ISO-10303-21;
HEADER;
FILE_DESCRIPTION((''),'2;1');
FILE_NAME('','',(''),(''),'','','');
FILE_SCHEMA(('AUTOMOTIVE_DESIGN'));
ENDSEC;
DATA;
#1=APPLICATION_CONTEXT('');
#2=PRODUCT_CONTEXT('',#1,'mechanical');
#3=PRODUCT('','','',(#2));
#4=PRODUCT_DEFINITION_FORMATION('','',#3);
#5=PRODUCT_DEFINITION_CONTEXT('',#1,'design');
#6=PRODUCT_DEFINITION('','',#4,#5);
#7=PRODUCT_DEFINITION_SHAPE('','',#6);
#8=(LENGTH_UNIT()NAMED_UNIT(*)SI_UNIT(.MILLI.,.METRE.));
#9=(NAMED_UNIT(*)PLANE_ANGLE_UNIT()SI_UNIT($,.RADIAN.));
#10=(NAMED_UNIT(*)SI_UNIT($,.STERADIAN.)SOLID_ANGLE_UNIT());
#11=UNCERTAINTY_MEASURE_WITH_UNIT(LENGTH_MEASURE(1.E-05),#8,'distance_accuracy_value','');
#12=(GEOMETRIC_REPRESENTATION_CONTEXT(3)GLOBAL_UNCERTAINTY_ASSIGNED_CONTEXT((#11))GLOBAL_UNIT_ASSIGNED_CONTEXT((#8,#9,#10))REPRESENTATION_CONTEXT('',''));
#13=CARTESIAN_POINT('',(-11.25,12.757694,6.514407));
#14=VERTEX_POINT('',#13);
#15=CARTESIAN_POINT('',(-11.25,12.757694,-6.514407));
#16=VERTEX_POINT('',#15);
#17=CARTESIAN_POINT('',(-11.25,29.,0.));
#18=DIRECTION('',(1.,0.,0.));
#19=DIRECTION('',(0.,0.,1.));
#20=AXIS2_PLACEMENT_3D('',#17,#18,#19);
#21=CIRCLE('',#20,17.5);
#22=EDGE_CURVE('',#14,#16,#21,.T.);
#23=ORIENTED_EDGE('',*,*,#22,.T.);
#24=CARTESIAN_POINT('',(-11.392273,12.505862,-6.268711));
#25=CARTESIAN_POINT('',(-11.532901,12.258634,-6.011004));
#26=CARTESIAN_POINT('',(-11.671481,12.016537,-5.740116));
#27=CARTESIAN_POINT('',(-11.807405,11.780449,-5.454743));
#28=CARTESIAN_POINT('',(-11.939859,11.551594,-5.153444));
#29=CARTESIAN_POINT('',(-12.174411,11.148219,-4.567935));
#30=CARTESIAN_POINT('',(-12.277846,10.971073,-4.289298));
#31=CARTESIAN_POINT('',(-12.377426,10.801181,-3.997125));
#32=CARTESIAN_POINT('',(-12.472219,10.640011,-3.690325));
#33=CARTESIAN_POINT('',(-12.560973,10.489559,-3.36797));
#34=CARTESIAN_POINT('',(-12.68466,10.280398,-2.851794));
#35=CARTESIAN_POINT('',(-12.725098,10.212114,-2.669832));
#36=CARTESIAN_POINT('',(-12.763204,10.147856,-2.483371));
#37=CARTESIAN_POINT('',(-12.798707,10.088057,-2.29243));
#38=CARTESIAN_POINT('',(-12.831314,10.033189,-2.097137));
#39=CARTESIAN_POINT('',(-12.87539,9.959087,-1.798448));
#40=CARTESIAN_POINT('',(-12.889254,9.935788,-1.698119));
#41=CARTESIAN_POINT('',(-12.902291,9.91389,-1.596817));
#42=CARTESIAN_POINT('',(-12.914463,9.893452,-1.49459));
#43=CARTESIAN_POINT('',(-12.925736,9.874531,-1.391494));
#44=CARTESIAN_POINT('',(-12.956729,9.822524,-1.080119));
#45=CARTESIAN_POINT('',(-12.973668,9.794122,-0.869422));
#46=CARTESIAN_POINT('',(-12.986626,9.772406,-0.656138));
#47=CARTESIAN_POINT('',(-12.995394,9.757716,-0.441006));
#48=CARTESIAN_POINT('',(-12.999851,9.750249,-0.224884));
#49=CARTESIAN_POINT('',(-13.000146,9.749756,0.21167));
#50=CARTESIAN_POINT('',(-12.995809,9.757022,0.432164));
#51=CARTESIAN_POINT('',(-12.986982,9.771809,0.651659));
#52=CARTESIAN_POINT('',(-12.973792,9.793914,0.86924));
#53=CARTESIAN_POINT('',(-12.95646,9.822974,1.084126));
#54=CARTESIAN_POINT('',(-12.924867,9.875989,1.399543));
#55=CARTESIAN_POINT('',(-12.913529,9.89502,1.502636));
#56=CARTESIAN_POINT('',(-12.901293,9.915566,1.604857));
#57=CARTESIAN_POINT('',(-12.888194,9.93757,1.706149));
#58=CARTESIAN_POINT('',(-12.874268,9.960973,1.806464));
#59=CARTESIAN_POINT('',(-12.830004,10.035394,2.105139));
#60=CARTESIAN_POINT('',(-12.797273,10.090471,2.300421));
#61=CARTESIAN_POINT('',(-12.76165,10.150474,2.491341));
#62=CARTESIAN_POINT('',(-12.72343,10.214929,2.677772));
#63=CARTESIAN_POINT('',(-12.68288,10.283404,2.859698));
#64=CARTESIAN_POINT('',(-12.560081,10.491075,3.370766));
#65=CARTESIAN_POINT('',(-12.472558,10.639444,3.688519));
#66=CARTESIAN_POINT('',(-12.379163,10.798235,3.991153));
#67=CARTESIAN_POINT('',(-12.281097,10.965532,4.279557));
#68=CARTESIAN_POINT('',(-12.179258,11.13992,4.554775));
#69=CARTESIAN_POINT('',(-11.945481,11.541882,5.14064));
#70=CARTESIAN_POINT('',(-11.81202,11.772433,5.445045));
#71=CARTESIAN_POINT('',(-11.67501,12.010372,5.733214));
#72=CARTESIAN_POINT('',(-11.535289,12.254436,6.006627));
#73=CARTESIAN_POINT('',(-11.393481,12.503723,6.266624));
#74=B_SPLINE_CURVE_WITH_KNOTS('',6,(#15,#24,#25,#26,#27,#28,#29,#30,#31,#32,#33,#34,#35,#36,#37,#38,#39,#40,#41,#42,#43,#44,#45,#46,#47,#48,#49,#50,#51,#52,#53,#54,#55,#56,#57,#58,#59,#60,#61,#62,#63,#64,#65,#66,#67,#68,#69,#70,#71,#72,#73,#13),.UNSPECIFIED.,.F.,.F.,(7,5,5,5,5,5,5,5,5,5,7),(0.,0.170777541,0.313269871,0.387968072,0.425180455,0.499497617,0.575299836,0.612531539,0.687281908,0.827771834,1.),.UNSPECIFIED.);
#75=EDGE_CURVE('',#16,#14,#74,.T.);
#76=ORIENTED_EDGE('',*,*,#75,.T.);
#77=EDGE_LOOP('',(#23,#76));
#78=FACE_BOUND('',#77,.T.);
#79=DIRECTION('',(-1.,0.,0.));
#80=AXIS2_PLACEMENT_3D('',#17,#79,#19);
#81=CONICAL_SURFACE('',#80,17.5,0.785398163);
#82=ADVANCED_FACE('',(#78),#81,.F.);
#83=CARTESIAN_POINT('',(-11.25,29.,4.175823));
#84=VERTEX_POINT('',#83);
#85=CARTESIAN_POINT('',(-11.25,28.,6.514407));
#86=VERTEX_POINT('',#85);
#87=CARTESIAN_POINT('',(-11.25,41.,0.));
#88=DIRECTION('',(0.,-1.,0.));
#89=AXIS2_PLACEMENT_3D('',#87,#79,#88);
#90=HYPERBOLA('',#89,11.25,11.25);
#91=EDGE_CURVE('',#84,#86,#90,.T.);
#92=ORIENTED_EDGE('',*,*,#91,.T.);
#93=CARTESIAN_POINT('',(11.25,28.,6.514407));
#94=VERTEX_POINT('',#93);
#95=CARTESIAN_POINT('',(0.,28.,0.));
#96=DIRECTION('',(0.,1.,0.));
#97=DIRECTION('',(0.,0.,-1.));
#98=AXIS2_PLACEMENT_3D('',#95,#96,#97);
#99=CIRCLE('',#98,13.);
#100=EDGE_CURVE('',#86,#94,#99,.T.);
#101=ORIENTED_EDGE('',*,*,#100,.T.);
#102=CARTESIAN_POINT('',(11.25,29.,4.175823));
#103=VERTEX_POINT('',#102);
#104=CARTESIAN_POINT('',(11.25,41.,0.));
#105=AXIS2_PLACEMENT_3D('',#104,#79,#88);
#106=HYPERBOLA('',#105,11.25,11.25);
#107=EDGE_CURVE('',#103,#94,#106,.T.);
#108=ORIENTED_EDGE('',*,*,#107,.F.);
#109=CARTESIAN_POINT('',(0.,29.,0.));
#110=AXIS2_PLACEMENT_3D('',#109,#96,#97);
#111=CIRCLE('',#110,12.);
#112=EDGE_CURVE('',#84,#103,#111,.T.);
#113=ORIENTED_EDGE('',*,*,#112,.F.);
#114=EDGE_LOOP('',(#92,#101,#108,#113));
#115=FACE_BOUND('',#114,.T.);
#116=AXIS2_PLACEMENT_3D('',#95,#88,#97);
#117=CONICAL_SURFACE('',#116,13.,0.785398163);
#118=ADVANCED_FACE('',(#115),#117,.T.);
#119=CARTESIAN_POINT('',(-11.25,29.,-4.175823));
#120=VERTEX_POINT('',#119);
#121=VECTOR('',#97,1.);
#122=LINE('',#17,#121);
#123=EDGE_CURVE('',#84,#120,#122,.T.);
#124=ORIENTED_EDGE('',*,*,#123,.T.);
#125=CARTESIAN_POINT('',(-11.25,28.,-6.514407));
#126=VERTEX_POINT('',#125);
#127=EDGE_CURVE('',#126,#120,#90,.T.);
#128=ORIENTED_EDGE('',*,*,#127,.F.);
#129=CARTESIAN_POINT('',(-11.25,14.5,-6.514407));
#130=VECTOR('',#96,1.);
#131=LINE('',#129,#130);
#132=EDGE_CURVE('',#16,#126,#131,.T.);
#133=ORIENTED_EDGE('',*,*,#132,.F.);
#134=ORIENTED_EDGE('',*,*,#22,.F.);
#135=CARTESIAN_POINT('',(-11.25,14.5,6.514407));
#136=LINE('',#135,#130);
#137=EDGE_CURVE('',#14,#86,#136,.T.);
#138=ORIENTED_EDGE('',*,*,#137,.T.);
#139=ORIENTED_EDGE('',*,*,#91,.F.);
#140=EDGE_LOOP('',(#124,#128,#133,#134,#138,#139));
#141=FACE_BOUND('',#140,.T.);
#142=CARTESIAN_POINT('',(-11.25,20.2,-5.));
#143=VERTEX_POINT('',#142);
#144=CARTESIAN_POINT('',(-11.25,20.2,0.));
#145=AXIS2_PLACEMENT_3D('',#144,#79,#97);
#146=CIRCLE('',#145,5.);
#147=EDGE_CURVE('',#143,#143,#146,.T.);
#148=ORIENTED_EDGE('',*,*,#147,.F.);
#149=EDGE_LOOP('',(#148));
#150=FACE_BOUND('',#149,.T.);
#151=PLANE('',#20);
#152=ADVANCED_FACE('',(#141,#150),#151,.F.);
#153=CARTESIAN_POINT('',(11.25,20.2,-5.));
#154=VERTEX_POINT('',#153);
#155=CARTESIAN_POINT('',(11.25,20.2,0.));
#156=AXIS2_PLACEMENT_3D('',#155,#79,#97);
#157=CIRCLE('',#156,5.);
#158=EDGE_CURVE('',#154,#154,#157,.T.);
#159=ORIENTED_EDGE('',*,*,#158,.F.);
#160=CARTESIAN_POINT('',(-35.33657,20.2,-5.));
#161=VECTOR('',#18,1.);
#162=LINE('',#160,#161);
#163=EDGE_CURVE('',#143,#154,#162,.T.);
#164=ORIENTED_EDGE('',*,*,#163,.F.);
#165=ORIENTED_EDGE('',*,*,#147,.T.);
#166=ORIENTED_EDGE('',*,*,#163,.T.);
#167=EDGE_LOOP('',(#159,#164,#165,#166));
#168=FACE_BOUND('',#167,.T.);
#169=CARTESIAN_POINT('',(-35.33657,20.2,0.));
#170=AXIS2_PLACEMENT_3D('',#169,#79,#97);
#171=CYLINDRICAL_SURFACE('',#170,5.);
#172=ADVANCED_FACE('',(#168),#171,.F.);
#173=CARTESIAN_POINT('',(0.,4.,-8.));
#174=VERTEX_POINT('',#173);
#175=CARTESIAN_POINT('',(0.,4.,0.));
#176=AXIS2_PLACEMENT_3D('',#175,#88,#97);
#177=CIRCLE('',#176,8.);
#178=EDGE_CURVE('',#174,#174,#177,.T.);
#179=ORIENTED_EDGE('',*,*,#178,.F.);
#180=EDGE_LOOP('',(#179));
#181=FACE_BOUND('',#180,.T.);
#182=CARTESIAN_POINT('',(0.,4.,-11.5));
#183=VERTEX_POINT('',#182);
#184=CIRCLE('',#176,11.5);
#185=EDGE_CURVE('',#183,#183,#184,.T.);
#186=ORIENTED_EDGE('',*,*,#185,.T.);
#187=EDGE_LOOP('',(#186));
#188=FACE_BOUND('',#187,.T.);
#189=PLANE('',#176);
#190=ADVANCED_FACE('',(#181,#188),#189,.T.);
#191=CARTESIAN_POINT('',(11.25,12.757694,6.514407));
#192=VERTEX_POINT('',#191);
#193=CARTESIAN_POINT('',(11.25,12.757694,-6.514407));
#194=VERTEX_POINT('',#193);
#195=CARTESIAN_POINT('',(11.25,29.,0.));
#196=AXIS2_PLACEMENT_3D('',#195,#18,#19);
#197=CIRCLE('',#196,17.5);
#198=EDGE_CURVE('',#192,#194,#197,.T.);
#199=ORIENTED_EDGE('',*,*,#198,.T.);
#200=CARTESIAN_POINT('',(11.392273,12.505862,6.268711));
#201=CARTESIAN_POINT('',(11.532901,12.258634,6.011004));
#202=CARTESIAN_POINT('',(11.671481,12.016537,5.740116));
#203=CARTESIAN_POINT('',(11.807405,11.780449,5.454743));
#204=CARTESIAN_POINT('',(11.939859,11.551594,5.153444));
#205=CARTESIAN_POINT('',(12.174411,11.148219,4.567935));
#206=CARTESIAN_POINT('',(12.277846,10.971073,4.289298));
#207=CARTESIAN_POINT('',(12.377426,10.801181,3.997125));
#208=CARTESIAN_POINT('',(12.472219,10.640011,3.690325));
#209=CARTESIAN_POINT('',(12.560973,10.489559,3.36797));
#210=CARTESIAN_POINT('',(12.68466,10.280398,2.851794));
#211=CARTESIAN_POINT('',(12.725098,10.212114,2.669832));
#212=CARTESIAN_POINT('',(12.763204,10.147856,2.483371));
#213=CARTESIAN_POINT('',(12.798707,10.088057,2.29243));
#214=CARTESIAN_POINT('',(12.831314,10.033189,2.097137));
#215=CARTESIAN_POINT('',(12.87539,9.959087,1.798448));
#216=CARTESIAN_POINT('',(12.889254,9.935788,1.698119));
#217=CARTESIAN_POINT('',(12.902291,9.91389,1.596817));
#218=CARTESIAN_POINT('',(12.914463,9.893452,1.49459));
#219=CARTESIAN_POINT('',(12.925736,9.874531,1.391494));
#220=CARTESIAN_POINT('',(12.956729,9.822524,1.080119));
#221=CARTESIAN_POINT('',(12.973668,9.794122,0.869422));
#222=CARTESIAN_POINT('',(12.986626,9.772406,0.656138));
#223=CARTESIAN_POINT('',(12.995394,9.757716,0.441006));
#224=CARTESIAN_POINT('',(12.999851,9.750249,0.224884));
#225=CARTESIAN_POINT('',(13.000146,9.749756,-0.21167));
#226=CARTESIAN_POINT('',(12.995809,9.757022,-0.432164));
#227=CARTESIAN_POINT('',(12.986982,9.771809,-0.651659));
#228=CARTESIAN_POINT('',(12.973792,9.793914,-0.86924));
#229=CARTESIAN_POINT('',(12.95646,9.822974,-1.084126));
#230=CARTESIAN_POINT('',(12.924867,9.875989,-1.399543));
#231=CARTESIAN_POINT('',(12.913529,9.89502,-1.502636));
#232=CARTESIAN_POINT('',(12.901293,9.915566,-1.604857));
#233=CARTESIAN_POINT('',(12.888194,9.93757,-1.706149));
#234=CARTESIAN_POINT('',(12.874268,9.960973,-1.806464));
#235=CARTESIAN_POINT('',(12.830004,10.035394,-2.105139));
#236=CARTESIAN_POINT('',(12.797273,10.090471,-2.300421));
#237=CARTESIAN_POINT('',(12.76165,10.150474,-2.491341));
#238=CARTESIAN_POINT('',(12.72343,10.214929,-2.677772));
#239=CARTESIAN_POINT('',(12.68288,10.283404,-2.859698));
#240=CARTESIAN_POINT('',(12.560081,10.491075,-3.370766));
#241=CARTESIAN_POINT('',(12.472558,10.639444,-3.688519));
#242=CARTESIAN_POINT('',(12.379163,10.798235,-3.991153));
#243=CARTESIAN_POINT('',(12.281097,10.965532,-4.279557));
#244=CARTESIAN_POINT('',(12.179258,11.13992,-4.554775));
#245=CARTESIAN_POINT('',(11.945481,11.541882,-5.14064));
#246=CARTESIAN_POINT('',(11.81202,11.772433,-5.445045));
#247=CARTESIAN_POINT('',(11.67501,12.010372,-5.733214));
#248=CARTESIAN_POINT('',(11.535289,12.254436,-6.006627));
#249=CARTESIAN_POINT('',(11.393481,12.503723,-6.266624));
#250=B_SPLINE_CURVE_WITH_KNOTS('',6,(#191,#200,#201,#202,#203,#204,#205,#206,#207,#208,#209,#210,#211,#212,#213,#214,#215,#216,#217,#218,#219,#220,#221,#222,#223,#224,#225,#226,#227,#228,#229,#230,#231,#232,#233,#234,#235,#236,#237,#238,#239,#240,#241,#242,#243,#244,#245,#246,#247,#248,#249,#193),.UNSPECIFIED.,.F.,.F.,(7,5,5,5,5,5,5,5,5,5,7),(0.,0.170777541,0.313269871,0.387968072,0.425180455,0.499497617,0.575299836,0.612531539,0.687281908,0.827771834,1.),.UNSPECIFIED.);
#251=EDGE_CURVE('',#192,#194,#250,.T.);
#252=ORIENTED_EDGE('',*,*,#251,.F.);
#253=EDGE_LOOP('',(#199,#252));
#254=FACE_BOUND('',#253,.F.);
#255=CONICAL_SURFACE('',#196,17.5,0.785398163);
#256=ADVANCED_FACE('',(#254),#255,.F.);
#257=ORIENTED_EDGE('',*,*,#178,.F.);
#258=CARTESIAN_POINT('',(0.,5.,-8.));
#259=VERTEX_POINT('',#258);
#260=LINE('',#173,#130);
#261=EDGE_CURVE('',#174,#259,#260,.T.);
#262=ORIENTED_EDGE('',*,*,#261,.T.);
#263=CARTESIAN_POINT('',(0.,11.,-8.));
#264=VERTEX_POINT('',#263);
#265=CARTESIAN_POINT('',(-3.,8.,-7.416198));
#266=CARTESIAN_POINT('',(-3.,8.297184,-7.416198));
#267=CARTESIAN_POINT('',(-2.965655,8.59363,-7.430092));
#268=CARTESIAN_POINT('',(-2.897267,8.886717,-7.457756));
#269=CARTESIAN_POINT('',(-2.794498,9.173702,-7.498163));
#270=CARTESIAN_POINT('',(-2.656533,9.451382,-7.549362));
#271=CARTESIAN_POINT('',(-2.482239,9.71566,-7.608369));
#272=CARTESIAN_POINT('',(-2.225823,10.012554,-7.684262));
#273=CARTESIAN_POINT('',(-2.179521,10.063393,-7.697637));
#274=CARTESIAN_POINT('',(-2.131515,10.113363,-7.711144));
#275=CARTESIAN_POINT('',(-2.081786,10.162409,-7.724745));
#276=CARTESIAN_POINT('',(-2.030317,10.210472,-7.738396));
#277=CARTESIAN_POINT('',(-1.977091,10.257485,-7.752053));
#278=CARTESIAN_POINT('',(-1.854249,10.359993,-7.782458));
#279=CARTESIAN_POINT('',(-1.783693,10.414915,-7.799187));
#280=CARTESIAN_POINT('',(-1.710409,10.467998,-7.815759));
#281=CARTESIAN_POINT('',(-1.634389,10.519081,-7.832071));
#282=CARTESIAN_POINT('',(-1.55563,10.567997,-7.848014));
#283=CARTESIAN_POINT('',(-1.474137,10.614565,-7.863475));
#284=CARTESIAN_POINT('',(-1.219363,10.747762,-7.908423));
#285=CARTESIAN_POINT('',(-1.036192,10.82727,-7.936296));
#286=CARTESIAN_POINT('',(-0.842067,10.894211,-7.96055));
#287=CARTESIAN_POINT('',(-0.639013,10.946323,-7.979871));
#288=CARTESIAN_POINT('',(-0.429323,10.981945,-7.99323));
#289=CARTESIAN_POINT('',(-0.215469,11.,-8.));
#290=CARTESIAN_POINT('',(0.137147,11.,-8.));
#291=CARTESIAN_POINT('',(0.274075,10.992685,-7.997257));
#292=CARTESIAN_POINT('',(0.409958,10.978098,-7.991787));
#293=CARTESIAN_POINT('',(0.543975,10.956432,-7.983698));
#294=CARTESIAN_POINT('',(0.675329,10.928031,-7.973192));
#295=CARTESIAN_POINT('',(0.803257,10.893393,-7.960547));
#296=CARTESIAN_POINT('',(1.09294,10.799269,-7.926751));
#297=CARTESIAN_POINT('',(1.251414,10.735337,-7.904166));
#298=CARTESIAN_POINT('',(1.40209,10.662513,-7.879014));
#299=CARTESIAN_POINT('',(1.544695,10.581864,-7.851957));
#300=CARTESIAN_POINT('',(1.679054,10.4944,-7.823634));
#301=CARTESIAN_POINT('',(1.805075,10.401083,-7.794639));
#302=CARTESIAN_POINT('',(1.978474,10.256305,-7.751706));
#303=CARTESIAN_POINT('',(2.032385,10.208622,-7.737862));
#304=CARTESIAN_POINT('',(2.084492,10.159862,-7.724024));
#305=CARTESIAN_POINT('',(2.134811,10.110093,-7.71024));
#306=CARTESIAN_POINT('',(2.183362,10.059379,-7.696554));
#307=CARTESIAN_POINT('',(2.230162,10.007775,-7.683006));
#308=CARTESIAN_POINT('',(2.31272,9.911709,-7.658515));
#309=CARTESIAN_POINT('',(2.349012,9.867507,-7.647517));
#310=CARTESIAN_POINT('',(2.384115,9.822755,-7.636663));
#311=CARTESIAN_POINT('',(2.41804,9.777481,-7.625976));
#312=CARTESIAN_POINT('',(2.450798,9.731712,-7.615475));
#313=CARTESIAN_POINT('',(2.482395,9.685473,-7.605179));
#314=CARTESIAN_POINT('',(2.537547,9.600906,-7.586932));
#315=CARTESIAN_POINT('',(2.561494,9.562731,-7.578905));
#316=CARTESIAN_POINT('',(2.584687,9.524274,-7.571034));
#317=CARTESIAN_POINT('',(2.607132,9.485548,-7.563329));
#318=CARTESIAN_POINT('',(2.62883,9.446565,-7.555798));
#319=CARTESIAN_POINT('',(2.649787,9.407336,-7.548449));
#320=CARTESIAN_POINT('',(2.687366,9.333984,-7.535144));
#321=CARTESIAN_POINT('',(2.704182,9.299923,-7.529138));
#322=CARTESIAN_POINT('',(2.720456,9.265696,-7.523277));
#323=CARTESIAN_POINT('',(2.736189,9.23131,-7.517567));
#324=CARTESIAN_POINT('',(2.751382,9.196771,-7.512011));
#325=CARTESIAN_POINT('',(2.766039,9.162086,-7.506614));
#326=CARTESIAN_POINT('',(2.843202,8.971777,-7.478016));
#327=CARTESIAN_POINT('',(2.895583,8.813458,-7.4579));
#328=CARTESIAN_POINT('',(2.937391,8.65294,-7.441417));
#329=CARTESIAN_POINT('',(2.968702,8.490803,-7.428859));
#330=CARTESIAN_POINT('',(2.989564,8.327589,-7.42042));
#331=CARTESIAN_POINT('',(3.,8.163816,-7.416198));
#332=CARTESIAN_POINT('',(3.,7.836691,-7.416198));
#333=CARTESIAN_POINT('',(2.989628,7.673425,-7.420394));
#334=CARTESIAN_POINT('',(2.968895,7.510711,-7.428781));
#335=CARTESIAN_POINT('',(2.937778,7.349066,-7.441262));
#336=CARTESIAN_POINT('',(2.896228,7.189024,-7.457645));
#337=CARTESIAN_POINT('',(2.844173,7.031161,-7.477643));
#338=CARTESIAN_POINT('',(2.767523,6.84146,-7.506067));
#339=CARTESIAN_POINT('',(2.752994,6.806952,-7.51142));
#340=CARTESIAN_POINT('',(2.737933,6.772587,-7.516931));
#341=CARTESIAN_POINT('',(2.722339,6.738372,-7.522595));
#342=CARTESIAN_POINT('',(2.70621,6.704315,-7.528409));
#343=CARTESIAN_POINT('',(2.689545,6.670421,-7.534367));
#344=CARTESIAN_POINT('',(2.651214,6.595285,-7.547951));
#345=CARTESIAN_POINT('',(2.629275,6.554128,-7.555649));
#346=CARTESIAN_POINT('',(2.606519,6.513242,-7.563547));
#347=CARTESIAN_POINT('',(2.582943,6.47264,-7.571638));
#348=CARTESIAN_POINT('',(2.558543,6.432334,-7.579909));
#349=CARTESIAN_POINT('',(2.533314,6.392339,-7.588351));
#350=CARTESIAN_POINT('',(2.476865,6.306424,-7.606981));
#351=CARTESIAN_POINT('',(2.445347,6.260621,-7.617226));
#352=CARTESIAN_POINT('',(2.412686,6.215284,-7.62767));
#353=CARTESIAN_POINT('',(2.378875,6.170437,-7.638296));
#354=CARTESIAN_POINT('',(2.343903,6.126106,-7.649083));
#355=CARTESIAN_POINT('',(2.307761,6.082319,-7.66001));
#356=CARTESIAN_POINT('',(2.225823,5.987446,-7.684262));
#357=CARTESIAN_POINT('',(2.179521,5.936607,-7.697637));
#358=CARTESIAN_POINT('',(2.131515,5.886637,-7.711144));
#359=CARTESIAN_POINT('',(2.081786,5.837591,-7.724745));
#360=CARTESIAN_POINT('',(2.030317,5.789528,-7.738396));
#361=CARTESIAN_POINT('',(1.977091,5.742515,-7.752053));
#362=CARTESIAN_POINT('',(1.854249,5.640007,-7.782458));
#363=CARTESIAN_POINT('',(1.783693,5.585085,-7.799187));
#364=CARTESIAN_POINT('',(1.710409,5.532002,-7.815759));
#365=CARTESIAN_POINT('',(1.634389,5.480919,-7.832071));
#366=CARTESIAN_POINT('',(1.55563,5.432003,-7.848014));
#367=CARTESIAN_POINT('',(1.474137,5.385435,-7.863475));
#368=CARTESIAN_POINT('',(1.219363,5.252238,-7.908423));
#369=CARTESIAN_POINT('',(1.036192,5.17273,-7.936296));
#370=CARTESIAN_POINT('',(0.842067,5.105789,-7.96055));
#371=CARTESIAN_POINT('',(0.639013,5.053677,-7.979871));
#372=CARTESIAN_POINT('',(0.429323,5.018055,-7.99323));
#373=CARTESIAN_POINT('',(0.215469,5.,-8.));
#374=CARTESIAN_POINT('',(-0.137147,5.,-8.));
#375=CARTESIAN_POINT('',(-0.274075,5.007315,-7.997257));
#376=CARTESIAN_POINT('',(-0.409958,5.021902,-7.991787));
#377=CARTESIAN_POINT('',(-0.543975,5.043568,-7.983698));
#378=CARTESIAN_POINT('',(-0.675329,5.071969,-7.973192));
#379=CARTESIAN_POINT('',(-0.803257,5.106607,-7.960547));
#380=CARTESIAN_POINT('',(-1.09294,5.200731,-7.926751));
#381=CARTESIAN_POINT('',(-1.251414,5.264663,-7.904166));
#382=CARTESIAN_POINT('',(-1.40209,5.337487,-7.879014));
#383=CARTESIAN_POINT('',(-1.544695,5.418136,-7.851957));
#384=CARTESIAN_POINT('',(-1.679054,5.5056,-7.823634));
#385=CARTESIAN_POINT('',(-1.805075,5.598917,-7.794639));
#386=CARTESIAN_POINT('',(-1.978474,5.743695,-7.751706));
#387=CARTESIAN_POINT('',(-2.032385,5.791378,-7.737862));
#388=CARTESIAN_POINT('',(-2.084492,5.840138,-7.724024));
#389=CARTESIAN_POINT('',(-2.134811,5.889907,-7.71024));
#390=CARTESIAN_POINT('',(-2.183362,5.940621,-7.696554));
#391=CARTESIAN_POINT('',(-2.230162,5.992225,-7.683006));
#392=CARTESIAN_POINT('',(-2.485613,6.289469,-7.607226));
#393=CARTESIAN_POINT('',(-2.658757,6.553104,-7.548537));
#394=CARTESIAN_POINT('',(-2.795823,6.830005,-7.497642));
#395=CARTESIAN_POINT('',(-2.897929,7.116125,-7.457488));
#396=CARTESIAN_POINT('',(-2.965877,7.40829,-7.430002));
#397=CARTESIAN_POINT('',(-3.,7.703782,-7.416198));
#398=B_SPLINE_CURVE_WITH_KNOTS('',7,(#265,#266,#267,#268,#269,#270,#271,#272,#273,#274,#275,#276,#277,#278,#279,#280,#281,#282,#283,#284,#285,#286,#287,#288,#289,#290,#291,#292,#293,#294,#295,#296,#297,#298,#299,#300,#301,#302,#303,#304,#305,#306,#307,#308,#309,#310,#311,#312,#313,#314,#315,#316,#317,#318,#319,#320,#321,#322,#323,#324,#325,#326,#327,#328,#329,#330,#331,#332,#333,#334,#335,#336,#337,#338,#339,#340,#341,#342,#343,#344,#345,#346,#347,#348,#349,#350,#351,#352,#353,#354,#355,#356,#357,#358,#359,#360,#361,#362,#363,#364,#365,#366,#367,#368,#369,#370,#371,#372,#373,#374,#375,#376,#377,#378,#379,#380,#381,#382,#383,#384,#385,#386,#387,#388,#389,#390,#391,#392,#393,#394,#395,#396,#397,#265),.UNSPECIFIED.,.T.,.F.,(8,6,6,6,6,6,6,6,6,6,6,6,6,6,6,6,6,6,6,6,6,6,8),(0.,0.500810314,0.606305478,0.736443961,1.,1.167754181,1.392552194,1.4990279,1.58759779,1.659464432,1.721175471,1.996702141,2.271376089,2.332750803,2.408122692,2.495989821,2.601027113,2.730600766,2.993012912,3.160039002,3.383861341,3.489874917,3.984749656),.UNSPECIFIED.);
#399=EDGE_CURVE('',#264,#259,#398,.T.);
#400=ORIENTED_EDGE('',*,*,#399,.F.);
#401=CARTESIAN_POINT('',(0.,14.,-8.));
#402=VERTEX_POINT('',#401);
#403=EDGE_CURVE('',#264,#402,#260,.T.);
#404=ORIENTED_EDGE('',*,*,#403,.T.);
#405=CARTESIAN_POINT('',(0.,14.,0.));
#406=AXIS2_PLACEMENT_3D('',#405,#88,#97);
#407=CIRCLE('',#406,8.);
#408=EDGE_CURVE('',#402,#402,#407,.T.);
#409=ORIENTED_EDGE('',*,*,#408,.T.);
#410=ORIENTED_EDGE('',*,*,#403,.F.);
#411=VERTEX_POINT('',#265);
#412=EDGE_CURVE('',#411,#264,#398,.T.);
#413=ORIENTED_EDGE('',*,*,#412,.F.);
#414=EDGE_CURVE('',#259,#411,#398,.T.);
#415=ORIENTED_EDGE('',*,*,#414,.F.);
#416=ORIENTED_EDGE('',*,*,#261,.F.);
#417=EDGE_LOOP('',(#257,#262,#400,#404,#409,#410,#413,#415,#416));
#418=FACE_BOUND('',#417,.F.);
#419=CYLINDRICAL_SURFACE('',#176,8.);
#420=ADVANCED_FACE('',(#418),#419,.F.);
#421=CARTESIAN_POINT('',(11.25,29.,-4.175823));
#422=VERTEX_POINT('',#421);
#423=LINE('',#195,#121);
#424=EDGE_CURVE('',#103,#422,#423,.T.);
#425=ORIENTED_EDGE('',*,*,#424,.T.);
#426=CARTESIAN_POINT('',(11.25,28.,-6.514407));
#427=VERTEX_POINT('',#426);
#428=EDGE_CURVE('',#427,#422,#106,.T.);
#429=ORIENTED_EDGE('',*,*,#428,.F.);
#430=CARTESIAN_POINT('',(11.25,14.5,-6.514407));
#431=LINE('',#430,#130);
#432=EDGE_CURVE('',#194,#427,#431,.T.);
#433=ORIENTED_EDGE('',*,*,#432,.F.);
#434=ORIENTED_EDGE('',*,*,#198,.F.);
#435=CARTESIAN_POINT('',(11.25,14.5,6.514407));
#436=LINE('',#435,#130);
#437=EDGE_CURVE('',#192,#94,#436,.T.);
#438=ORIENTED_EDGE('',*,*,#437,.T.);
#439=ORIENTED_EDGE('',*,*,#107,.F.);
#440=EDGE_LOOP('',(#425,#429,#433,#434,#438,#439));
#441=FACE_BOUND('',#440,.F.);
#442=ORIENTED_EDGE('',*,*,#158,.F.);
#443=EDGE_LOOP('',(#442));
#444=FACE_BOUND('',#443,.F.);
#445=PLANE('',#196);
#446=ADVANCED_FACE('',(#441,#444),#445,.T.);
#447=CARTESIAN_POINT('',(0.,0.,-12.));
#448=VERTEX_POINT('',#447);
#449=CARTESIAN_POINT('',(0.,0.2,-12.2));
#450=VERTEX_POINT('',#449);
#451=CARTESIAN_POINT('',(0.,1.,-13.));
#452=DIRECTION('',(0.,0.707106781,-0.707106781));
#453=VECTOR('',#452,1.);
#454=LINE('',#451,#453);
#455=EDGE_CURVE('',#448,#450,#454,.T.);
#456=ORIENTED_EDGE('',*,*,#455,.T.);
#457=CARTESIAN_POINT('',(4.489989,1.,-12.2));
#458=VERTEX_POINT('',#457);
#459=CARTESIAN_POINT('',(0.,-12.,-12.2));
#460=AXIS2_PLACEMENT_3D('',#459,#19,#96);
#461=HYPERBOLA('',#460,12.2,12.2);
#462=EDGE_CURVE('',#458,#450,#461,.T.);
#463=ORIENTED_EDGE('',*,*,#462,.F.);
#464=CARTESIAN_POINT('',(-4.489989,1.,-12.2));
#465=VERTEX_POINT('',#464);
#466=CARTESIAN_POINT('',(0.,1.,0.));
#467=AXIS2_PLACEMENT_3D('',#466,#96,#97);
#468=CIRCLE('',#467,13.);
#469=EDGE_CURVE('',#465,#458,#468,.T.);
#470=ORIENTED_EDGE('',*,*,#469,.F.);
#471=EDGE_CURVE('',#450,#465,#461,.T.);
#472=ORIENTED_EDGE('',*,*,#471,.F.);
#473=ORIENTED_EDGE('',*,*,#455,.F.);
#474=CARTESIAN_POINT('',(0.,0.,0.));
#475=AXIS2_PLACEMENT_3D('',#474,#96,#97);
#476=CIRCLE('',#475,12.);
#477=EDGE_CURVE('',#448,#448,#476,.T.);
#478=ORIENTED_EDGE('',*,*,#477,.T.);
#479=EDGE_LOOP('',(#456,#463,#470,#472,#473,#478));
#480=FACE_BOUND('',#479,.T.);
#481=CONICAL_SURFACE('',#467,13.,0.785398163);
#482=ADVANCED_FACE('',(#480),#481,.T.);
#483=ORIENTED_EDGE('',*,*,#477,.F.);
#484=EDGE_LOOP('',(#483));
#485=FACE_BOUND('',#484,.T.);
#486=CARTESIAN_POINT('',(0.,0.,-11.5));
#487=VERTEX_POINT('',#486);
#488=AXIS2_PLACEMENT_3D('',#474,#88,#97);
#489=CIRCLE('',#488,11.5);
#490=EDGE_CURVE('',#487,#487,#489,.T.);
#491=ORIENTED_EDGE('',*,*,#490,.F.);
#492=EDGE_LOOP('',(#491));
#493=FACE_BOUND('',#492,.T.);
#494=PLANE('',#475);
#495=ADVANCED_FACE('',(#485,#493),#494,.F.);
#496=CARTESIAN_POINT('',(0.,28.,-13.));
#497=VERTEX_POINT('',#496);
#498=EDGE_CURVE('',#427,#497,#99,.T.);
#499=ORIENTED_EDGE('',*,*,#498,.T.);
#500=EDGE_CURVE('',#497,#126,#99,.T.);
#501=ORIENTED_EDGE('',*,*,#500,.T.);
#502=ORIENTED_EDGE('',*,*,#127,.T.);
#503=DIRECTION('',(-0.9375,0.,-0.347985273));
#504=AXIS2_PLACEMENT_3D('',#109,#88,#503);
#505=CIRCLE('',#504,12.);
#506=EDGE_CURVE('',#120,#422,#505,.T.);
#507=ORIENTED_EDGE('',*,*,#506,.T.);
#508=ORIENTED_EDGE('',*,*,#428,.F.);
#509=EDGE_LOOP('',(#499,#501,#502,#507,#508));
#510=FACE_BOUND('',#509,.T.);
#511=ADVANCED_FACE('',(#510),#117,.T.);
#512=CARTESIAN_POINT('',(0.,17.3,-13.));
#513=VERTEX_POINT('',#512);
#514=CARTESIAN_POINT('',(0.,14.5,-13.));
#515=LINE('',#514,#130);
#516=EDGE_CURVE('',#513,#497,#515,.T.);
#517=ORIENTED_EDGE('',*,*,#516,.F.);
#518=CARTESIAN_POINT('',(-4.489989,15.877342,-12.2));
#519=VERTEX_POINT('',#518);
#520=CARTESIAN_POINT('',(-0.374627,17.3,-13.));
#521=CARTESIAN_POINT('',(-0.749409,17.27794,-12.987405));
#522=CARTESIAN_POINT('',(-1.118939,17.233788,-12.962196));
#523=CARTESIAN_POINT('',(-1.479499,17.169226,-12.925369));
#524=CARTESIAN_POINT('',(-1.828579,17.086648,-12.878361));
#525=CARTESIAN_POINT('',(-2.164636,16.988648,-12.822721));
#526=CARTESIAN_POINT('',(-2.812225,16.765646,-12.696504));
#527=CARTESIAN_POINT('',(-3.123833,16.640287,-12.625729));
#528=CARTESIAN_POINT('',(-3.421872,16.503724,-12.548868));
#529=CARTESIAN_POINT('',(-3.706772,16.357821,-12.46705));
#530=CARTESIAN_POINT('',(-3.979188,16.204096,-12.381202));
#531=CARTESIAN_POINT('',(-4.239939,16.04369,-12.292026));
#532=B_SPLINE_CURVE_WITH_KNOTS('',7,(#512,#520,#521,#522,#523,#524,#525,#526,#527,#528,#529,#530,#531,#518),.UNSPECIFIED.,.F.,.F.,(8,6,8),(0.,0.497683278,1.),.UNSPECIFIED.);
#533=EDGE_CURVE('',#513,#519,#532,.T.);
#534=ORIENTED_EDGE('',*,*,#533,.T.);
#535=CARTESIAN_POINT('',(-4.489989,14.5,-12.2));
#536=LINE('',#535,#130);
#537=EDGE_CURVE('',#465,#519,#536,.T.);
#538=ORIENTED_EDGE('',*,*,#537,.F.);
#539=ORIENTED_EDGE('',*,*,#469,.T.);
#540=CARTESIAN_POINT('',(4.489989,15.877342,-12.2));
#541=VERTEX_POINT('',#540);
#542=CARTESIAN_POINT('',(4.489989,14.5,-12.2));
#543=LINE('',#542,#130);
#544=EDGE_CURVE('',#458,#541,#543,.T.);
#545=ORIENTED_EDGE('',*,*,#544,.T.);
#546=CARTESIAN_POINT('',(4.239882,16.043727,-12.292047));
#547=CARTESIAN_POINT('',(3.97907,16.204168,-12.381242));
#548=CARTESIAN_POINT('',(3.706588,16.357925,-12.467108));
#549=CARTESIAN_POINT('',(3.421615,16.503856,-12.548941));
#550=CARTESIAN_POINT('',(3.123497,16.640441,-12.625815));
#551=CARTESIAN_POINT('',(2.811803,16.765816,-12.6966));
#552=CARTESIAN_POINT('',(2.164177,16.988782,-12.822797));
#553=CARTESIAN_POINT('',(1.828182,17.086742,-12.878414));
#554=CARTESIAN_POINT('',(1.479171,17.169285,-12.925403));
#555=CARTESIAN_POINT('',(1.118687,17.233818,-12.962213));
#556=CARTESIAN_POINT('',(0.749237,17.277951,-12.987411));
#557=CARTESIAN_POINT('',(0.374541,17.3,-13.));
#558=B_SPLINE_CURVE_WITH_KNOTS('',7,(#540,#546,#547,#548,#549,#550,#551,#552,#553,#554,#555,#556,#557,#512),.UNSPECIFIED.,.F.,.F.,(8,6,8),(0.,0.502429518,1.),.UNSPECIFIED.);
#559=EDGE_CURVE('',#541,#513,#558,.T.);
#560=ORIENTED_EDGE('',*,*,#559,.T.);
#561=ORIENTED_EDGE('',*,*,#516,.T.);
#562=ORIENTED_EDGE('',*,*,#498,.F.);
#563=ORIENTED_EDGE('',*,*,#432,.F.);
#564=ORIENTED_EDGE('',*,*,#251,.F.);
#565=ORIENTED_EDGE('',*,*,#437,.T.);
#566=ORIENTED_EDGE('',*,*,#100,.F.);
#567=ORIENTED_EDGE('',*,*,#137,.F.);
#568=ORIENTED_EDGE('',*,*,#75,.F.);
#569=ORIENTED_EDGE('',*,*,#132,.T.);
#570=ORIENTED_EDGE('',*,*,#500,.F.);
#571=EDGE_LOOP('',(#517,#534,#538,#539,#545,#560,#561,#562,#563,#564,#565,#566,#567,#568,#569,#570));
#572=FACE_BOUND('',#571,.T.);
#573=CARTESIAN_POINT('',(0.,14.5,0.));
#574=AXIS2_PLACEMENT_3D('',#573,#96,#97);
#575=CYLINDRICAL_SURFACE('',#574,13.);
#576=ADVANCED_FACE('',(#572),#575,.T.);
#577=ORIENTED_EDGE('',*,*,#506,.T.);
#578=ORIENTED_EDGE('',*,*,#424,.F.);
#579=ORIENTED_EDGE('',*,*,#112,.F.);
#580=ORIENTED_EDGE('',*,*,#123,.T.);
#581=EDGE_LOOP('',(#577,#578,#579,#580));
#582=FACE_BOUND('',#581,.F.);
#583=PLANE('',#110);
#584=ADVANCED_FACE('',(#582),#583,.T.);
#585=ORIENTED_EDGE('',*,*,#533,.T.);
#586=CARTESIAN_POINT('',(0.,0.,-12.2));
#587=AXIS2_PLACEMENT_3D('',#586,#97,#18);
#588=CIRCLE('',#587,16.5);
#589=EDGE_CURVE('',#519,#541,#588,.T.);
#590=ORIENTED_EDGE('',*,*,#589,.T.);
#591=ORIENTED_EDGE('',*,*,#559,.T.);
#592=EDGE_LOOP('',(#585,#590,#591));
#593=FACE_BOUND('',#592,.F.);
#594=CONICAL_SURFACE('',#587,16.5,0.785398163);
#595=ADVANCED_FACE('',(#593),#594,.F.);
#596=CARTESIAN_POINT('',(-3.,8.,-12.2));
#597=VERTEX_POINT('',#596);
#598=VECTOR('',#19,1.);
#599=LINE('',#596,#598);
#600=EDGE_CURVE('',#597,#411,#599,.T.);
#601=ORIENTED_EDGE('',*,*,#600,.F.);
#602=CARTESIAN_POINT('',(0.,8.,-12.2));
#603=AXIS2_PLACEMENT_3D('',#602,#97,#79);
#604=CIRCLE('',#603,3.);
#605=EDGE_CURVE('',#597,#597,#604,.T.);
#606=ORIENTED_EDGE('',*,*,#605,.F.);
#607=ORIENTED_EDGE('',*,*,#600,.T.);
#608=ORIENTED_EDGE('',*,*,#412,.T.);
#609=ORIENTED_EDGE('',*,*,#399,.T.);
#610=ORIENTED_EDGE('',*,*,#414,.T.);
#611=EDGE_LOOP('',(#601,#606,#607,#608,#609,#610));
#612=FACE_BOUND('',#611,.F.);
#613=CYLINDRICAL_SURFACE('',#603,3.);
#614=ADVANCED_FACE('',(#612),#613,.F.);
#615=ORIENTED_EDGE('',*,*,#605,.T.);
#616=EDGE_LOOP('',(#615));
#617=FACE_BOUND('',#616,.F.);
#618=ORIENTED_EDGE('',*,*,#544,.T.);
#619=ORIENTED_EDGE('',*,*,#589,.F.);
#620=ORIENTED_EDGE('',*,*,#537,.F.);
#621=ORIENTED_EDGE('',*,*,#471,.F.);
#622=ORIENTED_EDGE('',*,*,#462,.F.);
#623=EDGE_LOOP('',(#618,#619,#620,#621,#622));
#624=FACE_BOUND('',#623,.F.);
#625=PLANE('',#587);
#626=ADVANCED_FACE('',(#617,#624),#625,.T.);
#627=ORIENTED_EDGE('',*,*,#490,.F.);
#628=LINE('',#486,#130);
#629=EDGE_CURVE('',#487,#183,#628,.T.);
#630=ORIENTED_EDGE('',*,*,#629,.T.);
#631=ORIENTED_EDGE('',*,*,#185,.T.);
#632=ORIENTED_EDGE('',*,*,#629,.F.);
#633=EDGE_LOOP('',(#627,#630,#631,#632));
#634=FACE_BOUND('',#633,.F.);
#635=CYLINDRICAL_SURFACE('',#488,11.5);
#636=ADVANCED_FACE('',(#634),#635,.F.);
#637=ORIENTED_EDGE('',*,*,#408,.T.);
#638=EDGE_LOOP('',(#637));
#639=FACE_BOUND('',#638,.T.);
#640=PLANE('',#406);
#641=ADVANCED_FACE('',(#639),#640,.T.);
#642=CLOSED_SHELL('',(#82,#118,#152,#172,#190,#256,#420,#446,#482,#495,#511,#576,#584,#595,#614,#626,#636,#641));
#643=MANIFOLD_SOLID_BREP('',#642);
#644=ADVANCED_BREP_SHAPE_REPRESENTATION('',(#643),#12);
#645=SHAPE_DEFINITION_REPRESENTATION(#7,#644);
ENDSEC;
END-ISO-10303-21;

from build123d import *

# Parameters (mm, degrees)
ESQUISSE1_W                  = 13
ESQUISSE1_H                  = 29
ESQUISSE2_R                  = 11.5
ENL_V_MAT_EXTRU_1_DEPTH      = 4
CHANFREIN1_SIZE              = 1
ESQUISSE4_R                  = 8
ENL_V_MAT_EXTRU_2_DEPTH      = 10
ENL_V_MAT_EXTRU_4_DEPTH      = 35.336569502
ENL_V_MAT_EXTRU_4_DEPTH_BACK = 35.336569502
ESQUISSE6_R                  = 5
ENL_V_MAT_EXTRU_5_REACH      = 42.559
ESQUISSE8_R                  = 3


with BuildPart() as part:
    # Esquisse1 → Base-Révolution (revolve)
    with BuildSketch(Plane.XY, mode=Mode.PRIVATE) as base_r_volution_sk:
        with Locations((6.5, 14.5)):
            Rectangle(ESQUISSE1_W, ESQUISSE1_H)
    revolve(base_r_volution_sk.sketch.rotate(Axis((0, 0, 0), (0, 1, 0)), 90), axis=Axis((0, 0, 0), (0, 1, 0)))

    # Esquisse2 → Enlèv. mat.-Extru.1 (cut)
    with BuildSketch(Plane.XZ):
        with Locations(Location((0, 0, 0), (0, 0, 270))):
            Circle(ESQUISSE2_R)
    extrude(amount=-ENL_V_MAT_EXTRU_1_DEPTH, mode=Mode.SUBTRACT)

    # Chanfrein1
    chanfrein1_edges = [part.edges().sort_by_distance(p)[0] for p in [
        (0, 0, 13),
        (0, 29, 13),
    ]]
    chamfer(chanfrein1_edges, length=CHANFREIN1_SIZE)

    # Esquisse3 → Enlèvement de matière-Révolution1 (revolve, cut)
    with BuildSketch(Plane(origin=(0, 0, 0), x_dir=(1, 0, 0), z_dir=(0, 1, 0))):
        Polygon((0, 12.2), (16.5, 12.2), (21.5, 17.2), (0, 17.2), align=None)
    revolve(axis=Axis((0, 0, 0), (0, 0, -1)), mode=Mode.SUBTRACT)

    # Esquisse4 → Enlèv. mat.-Extru.2 (cut)
    with BuildSketch(Plane.XZ.offset(-4)):
        with Locations(Location((0, 0, 0), (0, 0, 270))):
            Circle(ESQUISSE4_R)
    extrude(amount=-ENL_V_MAT_EXTRU_2_DEPTH, mode=Mode.SUBTRACT)

    # Esquisse6 → Enlèv. mat.-Extru.4 (cut, two sides: drawn at the far end of the back side and taken through both)
    with BuildSketch(Plane(origin=(0, 0, 0), x_dir=(0, 0, -1), z_dir=(1, 0, 0)).offset(-ENL_V_MAT_EXTRU_4_DEPTH_BACK)):
        with Locations((0, 20.2)):
            Circle(ESQUISSE6_R)
    extrude(amount=ENL_V_MAT_EXTRU_4_DEPTH + ENL_V_MAT_EXTRU_4_DEPTH_BACK, mode=Mode.SUBTRACT)

    # Esquisse7 → Enlèvement de matière-Révolution2 (revolve, cut)
    with BuildSketch(Plane(origin=(0, 29, 0), x_dir=(-1, 0, 0), z_dir=(0, 1, 0))):
        Polygon((-11.25, 0), (-11.25, 17.5), (-16.25, 22.5), (-16.25, 0), align=None)
        Polygon((11.25, 0), (11.25, 17.5), (16.25, 22.5), (16.25, 0), align=None)
    revolve(axis=Axis((0, 29, 0), (1, 0, 0)), mode=Mode.SUBTRACT)

    # Esquisse8 → Enlèv. mat.-Extru.5 (cut, up to next)
    with BuildSketch(Plane(origin=(0, 0, -12.2), x_dir=(-1, 0, 0), z_dir=(0, 0, -1)), mode=Mode.PRIVATE) as enl_v_mat_extru_5_sk1:
        with Locations((0, 8)):
            Circle(ESQUISSE8_R)
    enl_v_mat_extru_5_tool1 = extrude(enl_v_mat_extru_5_sk1.sketch, amount=-ENL_V_MAT_EXTRU_5_REACH, mode=Mode.PRIVATE) & part.part
    add(enl_v_mat_extru_5_tool1.solids().sort_by_distance((0, 8, -12.2))[0], mode=Mode.SUBTRACT)


solid = part.part
